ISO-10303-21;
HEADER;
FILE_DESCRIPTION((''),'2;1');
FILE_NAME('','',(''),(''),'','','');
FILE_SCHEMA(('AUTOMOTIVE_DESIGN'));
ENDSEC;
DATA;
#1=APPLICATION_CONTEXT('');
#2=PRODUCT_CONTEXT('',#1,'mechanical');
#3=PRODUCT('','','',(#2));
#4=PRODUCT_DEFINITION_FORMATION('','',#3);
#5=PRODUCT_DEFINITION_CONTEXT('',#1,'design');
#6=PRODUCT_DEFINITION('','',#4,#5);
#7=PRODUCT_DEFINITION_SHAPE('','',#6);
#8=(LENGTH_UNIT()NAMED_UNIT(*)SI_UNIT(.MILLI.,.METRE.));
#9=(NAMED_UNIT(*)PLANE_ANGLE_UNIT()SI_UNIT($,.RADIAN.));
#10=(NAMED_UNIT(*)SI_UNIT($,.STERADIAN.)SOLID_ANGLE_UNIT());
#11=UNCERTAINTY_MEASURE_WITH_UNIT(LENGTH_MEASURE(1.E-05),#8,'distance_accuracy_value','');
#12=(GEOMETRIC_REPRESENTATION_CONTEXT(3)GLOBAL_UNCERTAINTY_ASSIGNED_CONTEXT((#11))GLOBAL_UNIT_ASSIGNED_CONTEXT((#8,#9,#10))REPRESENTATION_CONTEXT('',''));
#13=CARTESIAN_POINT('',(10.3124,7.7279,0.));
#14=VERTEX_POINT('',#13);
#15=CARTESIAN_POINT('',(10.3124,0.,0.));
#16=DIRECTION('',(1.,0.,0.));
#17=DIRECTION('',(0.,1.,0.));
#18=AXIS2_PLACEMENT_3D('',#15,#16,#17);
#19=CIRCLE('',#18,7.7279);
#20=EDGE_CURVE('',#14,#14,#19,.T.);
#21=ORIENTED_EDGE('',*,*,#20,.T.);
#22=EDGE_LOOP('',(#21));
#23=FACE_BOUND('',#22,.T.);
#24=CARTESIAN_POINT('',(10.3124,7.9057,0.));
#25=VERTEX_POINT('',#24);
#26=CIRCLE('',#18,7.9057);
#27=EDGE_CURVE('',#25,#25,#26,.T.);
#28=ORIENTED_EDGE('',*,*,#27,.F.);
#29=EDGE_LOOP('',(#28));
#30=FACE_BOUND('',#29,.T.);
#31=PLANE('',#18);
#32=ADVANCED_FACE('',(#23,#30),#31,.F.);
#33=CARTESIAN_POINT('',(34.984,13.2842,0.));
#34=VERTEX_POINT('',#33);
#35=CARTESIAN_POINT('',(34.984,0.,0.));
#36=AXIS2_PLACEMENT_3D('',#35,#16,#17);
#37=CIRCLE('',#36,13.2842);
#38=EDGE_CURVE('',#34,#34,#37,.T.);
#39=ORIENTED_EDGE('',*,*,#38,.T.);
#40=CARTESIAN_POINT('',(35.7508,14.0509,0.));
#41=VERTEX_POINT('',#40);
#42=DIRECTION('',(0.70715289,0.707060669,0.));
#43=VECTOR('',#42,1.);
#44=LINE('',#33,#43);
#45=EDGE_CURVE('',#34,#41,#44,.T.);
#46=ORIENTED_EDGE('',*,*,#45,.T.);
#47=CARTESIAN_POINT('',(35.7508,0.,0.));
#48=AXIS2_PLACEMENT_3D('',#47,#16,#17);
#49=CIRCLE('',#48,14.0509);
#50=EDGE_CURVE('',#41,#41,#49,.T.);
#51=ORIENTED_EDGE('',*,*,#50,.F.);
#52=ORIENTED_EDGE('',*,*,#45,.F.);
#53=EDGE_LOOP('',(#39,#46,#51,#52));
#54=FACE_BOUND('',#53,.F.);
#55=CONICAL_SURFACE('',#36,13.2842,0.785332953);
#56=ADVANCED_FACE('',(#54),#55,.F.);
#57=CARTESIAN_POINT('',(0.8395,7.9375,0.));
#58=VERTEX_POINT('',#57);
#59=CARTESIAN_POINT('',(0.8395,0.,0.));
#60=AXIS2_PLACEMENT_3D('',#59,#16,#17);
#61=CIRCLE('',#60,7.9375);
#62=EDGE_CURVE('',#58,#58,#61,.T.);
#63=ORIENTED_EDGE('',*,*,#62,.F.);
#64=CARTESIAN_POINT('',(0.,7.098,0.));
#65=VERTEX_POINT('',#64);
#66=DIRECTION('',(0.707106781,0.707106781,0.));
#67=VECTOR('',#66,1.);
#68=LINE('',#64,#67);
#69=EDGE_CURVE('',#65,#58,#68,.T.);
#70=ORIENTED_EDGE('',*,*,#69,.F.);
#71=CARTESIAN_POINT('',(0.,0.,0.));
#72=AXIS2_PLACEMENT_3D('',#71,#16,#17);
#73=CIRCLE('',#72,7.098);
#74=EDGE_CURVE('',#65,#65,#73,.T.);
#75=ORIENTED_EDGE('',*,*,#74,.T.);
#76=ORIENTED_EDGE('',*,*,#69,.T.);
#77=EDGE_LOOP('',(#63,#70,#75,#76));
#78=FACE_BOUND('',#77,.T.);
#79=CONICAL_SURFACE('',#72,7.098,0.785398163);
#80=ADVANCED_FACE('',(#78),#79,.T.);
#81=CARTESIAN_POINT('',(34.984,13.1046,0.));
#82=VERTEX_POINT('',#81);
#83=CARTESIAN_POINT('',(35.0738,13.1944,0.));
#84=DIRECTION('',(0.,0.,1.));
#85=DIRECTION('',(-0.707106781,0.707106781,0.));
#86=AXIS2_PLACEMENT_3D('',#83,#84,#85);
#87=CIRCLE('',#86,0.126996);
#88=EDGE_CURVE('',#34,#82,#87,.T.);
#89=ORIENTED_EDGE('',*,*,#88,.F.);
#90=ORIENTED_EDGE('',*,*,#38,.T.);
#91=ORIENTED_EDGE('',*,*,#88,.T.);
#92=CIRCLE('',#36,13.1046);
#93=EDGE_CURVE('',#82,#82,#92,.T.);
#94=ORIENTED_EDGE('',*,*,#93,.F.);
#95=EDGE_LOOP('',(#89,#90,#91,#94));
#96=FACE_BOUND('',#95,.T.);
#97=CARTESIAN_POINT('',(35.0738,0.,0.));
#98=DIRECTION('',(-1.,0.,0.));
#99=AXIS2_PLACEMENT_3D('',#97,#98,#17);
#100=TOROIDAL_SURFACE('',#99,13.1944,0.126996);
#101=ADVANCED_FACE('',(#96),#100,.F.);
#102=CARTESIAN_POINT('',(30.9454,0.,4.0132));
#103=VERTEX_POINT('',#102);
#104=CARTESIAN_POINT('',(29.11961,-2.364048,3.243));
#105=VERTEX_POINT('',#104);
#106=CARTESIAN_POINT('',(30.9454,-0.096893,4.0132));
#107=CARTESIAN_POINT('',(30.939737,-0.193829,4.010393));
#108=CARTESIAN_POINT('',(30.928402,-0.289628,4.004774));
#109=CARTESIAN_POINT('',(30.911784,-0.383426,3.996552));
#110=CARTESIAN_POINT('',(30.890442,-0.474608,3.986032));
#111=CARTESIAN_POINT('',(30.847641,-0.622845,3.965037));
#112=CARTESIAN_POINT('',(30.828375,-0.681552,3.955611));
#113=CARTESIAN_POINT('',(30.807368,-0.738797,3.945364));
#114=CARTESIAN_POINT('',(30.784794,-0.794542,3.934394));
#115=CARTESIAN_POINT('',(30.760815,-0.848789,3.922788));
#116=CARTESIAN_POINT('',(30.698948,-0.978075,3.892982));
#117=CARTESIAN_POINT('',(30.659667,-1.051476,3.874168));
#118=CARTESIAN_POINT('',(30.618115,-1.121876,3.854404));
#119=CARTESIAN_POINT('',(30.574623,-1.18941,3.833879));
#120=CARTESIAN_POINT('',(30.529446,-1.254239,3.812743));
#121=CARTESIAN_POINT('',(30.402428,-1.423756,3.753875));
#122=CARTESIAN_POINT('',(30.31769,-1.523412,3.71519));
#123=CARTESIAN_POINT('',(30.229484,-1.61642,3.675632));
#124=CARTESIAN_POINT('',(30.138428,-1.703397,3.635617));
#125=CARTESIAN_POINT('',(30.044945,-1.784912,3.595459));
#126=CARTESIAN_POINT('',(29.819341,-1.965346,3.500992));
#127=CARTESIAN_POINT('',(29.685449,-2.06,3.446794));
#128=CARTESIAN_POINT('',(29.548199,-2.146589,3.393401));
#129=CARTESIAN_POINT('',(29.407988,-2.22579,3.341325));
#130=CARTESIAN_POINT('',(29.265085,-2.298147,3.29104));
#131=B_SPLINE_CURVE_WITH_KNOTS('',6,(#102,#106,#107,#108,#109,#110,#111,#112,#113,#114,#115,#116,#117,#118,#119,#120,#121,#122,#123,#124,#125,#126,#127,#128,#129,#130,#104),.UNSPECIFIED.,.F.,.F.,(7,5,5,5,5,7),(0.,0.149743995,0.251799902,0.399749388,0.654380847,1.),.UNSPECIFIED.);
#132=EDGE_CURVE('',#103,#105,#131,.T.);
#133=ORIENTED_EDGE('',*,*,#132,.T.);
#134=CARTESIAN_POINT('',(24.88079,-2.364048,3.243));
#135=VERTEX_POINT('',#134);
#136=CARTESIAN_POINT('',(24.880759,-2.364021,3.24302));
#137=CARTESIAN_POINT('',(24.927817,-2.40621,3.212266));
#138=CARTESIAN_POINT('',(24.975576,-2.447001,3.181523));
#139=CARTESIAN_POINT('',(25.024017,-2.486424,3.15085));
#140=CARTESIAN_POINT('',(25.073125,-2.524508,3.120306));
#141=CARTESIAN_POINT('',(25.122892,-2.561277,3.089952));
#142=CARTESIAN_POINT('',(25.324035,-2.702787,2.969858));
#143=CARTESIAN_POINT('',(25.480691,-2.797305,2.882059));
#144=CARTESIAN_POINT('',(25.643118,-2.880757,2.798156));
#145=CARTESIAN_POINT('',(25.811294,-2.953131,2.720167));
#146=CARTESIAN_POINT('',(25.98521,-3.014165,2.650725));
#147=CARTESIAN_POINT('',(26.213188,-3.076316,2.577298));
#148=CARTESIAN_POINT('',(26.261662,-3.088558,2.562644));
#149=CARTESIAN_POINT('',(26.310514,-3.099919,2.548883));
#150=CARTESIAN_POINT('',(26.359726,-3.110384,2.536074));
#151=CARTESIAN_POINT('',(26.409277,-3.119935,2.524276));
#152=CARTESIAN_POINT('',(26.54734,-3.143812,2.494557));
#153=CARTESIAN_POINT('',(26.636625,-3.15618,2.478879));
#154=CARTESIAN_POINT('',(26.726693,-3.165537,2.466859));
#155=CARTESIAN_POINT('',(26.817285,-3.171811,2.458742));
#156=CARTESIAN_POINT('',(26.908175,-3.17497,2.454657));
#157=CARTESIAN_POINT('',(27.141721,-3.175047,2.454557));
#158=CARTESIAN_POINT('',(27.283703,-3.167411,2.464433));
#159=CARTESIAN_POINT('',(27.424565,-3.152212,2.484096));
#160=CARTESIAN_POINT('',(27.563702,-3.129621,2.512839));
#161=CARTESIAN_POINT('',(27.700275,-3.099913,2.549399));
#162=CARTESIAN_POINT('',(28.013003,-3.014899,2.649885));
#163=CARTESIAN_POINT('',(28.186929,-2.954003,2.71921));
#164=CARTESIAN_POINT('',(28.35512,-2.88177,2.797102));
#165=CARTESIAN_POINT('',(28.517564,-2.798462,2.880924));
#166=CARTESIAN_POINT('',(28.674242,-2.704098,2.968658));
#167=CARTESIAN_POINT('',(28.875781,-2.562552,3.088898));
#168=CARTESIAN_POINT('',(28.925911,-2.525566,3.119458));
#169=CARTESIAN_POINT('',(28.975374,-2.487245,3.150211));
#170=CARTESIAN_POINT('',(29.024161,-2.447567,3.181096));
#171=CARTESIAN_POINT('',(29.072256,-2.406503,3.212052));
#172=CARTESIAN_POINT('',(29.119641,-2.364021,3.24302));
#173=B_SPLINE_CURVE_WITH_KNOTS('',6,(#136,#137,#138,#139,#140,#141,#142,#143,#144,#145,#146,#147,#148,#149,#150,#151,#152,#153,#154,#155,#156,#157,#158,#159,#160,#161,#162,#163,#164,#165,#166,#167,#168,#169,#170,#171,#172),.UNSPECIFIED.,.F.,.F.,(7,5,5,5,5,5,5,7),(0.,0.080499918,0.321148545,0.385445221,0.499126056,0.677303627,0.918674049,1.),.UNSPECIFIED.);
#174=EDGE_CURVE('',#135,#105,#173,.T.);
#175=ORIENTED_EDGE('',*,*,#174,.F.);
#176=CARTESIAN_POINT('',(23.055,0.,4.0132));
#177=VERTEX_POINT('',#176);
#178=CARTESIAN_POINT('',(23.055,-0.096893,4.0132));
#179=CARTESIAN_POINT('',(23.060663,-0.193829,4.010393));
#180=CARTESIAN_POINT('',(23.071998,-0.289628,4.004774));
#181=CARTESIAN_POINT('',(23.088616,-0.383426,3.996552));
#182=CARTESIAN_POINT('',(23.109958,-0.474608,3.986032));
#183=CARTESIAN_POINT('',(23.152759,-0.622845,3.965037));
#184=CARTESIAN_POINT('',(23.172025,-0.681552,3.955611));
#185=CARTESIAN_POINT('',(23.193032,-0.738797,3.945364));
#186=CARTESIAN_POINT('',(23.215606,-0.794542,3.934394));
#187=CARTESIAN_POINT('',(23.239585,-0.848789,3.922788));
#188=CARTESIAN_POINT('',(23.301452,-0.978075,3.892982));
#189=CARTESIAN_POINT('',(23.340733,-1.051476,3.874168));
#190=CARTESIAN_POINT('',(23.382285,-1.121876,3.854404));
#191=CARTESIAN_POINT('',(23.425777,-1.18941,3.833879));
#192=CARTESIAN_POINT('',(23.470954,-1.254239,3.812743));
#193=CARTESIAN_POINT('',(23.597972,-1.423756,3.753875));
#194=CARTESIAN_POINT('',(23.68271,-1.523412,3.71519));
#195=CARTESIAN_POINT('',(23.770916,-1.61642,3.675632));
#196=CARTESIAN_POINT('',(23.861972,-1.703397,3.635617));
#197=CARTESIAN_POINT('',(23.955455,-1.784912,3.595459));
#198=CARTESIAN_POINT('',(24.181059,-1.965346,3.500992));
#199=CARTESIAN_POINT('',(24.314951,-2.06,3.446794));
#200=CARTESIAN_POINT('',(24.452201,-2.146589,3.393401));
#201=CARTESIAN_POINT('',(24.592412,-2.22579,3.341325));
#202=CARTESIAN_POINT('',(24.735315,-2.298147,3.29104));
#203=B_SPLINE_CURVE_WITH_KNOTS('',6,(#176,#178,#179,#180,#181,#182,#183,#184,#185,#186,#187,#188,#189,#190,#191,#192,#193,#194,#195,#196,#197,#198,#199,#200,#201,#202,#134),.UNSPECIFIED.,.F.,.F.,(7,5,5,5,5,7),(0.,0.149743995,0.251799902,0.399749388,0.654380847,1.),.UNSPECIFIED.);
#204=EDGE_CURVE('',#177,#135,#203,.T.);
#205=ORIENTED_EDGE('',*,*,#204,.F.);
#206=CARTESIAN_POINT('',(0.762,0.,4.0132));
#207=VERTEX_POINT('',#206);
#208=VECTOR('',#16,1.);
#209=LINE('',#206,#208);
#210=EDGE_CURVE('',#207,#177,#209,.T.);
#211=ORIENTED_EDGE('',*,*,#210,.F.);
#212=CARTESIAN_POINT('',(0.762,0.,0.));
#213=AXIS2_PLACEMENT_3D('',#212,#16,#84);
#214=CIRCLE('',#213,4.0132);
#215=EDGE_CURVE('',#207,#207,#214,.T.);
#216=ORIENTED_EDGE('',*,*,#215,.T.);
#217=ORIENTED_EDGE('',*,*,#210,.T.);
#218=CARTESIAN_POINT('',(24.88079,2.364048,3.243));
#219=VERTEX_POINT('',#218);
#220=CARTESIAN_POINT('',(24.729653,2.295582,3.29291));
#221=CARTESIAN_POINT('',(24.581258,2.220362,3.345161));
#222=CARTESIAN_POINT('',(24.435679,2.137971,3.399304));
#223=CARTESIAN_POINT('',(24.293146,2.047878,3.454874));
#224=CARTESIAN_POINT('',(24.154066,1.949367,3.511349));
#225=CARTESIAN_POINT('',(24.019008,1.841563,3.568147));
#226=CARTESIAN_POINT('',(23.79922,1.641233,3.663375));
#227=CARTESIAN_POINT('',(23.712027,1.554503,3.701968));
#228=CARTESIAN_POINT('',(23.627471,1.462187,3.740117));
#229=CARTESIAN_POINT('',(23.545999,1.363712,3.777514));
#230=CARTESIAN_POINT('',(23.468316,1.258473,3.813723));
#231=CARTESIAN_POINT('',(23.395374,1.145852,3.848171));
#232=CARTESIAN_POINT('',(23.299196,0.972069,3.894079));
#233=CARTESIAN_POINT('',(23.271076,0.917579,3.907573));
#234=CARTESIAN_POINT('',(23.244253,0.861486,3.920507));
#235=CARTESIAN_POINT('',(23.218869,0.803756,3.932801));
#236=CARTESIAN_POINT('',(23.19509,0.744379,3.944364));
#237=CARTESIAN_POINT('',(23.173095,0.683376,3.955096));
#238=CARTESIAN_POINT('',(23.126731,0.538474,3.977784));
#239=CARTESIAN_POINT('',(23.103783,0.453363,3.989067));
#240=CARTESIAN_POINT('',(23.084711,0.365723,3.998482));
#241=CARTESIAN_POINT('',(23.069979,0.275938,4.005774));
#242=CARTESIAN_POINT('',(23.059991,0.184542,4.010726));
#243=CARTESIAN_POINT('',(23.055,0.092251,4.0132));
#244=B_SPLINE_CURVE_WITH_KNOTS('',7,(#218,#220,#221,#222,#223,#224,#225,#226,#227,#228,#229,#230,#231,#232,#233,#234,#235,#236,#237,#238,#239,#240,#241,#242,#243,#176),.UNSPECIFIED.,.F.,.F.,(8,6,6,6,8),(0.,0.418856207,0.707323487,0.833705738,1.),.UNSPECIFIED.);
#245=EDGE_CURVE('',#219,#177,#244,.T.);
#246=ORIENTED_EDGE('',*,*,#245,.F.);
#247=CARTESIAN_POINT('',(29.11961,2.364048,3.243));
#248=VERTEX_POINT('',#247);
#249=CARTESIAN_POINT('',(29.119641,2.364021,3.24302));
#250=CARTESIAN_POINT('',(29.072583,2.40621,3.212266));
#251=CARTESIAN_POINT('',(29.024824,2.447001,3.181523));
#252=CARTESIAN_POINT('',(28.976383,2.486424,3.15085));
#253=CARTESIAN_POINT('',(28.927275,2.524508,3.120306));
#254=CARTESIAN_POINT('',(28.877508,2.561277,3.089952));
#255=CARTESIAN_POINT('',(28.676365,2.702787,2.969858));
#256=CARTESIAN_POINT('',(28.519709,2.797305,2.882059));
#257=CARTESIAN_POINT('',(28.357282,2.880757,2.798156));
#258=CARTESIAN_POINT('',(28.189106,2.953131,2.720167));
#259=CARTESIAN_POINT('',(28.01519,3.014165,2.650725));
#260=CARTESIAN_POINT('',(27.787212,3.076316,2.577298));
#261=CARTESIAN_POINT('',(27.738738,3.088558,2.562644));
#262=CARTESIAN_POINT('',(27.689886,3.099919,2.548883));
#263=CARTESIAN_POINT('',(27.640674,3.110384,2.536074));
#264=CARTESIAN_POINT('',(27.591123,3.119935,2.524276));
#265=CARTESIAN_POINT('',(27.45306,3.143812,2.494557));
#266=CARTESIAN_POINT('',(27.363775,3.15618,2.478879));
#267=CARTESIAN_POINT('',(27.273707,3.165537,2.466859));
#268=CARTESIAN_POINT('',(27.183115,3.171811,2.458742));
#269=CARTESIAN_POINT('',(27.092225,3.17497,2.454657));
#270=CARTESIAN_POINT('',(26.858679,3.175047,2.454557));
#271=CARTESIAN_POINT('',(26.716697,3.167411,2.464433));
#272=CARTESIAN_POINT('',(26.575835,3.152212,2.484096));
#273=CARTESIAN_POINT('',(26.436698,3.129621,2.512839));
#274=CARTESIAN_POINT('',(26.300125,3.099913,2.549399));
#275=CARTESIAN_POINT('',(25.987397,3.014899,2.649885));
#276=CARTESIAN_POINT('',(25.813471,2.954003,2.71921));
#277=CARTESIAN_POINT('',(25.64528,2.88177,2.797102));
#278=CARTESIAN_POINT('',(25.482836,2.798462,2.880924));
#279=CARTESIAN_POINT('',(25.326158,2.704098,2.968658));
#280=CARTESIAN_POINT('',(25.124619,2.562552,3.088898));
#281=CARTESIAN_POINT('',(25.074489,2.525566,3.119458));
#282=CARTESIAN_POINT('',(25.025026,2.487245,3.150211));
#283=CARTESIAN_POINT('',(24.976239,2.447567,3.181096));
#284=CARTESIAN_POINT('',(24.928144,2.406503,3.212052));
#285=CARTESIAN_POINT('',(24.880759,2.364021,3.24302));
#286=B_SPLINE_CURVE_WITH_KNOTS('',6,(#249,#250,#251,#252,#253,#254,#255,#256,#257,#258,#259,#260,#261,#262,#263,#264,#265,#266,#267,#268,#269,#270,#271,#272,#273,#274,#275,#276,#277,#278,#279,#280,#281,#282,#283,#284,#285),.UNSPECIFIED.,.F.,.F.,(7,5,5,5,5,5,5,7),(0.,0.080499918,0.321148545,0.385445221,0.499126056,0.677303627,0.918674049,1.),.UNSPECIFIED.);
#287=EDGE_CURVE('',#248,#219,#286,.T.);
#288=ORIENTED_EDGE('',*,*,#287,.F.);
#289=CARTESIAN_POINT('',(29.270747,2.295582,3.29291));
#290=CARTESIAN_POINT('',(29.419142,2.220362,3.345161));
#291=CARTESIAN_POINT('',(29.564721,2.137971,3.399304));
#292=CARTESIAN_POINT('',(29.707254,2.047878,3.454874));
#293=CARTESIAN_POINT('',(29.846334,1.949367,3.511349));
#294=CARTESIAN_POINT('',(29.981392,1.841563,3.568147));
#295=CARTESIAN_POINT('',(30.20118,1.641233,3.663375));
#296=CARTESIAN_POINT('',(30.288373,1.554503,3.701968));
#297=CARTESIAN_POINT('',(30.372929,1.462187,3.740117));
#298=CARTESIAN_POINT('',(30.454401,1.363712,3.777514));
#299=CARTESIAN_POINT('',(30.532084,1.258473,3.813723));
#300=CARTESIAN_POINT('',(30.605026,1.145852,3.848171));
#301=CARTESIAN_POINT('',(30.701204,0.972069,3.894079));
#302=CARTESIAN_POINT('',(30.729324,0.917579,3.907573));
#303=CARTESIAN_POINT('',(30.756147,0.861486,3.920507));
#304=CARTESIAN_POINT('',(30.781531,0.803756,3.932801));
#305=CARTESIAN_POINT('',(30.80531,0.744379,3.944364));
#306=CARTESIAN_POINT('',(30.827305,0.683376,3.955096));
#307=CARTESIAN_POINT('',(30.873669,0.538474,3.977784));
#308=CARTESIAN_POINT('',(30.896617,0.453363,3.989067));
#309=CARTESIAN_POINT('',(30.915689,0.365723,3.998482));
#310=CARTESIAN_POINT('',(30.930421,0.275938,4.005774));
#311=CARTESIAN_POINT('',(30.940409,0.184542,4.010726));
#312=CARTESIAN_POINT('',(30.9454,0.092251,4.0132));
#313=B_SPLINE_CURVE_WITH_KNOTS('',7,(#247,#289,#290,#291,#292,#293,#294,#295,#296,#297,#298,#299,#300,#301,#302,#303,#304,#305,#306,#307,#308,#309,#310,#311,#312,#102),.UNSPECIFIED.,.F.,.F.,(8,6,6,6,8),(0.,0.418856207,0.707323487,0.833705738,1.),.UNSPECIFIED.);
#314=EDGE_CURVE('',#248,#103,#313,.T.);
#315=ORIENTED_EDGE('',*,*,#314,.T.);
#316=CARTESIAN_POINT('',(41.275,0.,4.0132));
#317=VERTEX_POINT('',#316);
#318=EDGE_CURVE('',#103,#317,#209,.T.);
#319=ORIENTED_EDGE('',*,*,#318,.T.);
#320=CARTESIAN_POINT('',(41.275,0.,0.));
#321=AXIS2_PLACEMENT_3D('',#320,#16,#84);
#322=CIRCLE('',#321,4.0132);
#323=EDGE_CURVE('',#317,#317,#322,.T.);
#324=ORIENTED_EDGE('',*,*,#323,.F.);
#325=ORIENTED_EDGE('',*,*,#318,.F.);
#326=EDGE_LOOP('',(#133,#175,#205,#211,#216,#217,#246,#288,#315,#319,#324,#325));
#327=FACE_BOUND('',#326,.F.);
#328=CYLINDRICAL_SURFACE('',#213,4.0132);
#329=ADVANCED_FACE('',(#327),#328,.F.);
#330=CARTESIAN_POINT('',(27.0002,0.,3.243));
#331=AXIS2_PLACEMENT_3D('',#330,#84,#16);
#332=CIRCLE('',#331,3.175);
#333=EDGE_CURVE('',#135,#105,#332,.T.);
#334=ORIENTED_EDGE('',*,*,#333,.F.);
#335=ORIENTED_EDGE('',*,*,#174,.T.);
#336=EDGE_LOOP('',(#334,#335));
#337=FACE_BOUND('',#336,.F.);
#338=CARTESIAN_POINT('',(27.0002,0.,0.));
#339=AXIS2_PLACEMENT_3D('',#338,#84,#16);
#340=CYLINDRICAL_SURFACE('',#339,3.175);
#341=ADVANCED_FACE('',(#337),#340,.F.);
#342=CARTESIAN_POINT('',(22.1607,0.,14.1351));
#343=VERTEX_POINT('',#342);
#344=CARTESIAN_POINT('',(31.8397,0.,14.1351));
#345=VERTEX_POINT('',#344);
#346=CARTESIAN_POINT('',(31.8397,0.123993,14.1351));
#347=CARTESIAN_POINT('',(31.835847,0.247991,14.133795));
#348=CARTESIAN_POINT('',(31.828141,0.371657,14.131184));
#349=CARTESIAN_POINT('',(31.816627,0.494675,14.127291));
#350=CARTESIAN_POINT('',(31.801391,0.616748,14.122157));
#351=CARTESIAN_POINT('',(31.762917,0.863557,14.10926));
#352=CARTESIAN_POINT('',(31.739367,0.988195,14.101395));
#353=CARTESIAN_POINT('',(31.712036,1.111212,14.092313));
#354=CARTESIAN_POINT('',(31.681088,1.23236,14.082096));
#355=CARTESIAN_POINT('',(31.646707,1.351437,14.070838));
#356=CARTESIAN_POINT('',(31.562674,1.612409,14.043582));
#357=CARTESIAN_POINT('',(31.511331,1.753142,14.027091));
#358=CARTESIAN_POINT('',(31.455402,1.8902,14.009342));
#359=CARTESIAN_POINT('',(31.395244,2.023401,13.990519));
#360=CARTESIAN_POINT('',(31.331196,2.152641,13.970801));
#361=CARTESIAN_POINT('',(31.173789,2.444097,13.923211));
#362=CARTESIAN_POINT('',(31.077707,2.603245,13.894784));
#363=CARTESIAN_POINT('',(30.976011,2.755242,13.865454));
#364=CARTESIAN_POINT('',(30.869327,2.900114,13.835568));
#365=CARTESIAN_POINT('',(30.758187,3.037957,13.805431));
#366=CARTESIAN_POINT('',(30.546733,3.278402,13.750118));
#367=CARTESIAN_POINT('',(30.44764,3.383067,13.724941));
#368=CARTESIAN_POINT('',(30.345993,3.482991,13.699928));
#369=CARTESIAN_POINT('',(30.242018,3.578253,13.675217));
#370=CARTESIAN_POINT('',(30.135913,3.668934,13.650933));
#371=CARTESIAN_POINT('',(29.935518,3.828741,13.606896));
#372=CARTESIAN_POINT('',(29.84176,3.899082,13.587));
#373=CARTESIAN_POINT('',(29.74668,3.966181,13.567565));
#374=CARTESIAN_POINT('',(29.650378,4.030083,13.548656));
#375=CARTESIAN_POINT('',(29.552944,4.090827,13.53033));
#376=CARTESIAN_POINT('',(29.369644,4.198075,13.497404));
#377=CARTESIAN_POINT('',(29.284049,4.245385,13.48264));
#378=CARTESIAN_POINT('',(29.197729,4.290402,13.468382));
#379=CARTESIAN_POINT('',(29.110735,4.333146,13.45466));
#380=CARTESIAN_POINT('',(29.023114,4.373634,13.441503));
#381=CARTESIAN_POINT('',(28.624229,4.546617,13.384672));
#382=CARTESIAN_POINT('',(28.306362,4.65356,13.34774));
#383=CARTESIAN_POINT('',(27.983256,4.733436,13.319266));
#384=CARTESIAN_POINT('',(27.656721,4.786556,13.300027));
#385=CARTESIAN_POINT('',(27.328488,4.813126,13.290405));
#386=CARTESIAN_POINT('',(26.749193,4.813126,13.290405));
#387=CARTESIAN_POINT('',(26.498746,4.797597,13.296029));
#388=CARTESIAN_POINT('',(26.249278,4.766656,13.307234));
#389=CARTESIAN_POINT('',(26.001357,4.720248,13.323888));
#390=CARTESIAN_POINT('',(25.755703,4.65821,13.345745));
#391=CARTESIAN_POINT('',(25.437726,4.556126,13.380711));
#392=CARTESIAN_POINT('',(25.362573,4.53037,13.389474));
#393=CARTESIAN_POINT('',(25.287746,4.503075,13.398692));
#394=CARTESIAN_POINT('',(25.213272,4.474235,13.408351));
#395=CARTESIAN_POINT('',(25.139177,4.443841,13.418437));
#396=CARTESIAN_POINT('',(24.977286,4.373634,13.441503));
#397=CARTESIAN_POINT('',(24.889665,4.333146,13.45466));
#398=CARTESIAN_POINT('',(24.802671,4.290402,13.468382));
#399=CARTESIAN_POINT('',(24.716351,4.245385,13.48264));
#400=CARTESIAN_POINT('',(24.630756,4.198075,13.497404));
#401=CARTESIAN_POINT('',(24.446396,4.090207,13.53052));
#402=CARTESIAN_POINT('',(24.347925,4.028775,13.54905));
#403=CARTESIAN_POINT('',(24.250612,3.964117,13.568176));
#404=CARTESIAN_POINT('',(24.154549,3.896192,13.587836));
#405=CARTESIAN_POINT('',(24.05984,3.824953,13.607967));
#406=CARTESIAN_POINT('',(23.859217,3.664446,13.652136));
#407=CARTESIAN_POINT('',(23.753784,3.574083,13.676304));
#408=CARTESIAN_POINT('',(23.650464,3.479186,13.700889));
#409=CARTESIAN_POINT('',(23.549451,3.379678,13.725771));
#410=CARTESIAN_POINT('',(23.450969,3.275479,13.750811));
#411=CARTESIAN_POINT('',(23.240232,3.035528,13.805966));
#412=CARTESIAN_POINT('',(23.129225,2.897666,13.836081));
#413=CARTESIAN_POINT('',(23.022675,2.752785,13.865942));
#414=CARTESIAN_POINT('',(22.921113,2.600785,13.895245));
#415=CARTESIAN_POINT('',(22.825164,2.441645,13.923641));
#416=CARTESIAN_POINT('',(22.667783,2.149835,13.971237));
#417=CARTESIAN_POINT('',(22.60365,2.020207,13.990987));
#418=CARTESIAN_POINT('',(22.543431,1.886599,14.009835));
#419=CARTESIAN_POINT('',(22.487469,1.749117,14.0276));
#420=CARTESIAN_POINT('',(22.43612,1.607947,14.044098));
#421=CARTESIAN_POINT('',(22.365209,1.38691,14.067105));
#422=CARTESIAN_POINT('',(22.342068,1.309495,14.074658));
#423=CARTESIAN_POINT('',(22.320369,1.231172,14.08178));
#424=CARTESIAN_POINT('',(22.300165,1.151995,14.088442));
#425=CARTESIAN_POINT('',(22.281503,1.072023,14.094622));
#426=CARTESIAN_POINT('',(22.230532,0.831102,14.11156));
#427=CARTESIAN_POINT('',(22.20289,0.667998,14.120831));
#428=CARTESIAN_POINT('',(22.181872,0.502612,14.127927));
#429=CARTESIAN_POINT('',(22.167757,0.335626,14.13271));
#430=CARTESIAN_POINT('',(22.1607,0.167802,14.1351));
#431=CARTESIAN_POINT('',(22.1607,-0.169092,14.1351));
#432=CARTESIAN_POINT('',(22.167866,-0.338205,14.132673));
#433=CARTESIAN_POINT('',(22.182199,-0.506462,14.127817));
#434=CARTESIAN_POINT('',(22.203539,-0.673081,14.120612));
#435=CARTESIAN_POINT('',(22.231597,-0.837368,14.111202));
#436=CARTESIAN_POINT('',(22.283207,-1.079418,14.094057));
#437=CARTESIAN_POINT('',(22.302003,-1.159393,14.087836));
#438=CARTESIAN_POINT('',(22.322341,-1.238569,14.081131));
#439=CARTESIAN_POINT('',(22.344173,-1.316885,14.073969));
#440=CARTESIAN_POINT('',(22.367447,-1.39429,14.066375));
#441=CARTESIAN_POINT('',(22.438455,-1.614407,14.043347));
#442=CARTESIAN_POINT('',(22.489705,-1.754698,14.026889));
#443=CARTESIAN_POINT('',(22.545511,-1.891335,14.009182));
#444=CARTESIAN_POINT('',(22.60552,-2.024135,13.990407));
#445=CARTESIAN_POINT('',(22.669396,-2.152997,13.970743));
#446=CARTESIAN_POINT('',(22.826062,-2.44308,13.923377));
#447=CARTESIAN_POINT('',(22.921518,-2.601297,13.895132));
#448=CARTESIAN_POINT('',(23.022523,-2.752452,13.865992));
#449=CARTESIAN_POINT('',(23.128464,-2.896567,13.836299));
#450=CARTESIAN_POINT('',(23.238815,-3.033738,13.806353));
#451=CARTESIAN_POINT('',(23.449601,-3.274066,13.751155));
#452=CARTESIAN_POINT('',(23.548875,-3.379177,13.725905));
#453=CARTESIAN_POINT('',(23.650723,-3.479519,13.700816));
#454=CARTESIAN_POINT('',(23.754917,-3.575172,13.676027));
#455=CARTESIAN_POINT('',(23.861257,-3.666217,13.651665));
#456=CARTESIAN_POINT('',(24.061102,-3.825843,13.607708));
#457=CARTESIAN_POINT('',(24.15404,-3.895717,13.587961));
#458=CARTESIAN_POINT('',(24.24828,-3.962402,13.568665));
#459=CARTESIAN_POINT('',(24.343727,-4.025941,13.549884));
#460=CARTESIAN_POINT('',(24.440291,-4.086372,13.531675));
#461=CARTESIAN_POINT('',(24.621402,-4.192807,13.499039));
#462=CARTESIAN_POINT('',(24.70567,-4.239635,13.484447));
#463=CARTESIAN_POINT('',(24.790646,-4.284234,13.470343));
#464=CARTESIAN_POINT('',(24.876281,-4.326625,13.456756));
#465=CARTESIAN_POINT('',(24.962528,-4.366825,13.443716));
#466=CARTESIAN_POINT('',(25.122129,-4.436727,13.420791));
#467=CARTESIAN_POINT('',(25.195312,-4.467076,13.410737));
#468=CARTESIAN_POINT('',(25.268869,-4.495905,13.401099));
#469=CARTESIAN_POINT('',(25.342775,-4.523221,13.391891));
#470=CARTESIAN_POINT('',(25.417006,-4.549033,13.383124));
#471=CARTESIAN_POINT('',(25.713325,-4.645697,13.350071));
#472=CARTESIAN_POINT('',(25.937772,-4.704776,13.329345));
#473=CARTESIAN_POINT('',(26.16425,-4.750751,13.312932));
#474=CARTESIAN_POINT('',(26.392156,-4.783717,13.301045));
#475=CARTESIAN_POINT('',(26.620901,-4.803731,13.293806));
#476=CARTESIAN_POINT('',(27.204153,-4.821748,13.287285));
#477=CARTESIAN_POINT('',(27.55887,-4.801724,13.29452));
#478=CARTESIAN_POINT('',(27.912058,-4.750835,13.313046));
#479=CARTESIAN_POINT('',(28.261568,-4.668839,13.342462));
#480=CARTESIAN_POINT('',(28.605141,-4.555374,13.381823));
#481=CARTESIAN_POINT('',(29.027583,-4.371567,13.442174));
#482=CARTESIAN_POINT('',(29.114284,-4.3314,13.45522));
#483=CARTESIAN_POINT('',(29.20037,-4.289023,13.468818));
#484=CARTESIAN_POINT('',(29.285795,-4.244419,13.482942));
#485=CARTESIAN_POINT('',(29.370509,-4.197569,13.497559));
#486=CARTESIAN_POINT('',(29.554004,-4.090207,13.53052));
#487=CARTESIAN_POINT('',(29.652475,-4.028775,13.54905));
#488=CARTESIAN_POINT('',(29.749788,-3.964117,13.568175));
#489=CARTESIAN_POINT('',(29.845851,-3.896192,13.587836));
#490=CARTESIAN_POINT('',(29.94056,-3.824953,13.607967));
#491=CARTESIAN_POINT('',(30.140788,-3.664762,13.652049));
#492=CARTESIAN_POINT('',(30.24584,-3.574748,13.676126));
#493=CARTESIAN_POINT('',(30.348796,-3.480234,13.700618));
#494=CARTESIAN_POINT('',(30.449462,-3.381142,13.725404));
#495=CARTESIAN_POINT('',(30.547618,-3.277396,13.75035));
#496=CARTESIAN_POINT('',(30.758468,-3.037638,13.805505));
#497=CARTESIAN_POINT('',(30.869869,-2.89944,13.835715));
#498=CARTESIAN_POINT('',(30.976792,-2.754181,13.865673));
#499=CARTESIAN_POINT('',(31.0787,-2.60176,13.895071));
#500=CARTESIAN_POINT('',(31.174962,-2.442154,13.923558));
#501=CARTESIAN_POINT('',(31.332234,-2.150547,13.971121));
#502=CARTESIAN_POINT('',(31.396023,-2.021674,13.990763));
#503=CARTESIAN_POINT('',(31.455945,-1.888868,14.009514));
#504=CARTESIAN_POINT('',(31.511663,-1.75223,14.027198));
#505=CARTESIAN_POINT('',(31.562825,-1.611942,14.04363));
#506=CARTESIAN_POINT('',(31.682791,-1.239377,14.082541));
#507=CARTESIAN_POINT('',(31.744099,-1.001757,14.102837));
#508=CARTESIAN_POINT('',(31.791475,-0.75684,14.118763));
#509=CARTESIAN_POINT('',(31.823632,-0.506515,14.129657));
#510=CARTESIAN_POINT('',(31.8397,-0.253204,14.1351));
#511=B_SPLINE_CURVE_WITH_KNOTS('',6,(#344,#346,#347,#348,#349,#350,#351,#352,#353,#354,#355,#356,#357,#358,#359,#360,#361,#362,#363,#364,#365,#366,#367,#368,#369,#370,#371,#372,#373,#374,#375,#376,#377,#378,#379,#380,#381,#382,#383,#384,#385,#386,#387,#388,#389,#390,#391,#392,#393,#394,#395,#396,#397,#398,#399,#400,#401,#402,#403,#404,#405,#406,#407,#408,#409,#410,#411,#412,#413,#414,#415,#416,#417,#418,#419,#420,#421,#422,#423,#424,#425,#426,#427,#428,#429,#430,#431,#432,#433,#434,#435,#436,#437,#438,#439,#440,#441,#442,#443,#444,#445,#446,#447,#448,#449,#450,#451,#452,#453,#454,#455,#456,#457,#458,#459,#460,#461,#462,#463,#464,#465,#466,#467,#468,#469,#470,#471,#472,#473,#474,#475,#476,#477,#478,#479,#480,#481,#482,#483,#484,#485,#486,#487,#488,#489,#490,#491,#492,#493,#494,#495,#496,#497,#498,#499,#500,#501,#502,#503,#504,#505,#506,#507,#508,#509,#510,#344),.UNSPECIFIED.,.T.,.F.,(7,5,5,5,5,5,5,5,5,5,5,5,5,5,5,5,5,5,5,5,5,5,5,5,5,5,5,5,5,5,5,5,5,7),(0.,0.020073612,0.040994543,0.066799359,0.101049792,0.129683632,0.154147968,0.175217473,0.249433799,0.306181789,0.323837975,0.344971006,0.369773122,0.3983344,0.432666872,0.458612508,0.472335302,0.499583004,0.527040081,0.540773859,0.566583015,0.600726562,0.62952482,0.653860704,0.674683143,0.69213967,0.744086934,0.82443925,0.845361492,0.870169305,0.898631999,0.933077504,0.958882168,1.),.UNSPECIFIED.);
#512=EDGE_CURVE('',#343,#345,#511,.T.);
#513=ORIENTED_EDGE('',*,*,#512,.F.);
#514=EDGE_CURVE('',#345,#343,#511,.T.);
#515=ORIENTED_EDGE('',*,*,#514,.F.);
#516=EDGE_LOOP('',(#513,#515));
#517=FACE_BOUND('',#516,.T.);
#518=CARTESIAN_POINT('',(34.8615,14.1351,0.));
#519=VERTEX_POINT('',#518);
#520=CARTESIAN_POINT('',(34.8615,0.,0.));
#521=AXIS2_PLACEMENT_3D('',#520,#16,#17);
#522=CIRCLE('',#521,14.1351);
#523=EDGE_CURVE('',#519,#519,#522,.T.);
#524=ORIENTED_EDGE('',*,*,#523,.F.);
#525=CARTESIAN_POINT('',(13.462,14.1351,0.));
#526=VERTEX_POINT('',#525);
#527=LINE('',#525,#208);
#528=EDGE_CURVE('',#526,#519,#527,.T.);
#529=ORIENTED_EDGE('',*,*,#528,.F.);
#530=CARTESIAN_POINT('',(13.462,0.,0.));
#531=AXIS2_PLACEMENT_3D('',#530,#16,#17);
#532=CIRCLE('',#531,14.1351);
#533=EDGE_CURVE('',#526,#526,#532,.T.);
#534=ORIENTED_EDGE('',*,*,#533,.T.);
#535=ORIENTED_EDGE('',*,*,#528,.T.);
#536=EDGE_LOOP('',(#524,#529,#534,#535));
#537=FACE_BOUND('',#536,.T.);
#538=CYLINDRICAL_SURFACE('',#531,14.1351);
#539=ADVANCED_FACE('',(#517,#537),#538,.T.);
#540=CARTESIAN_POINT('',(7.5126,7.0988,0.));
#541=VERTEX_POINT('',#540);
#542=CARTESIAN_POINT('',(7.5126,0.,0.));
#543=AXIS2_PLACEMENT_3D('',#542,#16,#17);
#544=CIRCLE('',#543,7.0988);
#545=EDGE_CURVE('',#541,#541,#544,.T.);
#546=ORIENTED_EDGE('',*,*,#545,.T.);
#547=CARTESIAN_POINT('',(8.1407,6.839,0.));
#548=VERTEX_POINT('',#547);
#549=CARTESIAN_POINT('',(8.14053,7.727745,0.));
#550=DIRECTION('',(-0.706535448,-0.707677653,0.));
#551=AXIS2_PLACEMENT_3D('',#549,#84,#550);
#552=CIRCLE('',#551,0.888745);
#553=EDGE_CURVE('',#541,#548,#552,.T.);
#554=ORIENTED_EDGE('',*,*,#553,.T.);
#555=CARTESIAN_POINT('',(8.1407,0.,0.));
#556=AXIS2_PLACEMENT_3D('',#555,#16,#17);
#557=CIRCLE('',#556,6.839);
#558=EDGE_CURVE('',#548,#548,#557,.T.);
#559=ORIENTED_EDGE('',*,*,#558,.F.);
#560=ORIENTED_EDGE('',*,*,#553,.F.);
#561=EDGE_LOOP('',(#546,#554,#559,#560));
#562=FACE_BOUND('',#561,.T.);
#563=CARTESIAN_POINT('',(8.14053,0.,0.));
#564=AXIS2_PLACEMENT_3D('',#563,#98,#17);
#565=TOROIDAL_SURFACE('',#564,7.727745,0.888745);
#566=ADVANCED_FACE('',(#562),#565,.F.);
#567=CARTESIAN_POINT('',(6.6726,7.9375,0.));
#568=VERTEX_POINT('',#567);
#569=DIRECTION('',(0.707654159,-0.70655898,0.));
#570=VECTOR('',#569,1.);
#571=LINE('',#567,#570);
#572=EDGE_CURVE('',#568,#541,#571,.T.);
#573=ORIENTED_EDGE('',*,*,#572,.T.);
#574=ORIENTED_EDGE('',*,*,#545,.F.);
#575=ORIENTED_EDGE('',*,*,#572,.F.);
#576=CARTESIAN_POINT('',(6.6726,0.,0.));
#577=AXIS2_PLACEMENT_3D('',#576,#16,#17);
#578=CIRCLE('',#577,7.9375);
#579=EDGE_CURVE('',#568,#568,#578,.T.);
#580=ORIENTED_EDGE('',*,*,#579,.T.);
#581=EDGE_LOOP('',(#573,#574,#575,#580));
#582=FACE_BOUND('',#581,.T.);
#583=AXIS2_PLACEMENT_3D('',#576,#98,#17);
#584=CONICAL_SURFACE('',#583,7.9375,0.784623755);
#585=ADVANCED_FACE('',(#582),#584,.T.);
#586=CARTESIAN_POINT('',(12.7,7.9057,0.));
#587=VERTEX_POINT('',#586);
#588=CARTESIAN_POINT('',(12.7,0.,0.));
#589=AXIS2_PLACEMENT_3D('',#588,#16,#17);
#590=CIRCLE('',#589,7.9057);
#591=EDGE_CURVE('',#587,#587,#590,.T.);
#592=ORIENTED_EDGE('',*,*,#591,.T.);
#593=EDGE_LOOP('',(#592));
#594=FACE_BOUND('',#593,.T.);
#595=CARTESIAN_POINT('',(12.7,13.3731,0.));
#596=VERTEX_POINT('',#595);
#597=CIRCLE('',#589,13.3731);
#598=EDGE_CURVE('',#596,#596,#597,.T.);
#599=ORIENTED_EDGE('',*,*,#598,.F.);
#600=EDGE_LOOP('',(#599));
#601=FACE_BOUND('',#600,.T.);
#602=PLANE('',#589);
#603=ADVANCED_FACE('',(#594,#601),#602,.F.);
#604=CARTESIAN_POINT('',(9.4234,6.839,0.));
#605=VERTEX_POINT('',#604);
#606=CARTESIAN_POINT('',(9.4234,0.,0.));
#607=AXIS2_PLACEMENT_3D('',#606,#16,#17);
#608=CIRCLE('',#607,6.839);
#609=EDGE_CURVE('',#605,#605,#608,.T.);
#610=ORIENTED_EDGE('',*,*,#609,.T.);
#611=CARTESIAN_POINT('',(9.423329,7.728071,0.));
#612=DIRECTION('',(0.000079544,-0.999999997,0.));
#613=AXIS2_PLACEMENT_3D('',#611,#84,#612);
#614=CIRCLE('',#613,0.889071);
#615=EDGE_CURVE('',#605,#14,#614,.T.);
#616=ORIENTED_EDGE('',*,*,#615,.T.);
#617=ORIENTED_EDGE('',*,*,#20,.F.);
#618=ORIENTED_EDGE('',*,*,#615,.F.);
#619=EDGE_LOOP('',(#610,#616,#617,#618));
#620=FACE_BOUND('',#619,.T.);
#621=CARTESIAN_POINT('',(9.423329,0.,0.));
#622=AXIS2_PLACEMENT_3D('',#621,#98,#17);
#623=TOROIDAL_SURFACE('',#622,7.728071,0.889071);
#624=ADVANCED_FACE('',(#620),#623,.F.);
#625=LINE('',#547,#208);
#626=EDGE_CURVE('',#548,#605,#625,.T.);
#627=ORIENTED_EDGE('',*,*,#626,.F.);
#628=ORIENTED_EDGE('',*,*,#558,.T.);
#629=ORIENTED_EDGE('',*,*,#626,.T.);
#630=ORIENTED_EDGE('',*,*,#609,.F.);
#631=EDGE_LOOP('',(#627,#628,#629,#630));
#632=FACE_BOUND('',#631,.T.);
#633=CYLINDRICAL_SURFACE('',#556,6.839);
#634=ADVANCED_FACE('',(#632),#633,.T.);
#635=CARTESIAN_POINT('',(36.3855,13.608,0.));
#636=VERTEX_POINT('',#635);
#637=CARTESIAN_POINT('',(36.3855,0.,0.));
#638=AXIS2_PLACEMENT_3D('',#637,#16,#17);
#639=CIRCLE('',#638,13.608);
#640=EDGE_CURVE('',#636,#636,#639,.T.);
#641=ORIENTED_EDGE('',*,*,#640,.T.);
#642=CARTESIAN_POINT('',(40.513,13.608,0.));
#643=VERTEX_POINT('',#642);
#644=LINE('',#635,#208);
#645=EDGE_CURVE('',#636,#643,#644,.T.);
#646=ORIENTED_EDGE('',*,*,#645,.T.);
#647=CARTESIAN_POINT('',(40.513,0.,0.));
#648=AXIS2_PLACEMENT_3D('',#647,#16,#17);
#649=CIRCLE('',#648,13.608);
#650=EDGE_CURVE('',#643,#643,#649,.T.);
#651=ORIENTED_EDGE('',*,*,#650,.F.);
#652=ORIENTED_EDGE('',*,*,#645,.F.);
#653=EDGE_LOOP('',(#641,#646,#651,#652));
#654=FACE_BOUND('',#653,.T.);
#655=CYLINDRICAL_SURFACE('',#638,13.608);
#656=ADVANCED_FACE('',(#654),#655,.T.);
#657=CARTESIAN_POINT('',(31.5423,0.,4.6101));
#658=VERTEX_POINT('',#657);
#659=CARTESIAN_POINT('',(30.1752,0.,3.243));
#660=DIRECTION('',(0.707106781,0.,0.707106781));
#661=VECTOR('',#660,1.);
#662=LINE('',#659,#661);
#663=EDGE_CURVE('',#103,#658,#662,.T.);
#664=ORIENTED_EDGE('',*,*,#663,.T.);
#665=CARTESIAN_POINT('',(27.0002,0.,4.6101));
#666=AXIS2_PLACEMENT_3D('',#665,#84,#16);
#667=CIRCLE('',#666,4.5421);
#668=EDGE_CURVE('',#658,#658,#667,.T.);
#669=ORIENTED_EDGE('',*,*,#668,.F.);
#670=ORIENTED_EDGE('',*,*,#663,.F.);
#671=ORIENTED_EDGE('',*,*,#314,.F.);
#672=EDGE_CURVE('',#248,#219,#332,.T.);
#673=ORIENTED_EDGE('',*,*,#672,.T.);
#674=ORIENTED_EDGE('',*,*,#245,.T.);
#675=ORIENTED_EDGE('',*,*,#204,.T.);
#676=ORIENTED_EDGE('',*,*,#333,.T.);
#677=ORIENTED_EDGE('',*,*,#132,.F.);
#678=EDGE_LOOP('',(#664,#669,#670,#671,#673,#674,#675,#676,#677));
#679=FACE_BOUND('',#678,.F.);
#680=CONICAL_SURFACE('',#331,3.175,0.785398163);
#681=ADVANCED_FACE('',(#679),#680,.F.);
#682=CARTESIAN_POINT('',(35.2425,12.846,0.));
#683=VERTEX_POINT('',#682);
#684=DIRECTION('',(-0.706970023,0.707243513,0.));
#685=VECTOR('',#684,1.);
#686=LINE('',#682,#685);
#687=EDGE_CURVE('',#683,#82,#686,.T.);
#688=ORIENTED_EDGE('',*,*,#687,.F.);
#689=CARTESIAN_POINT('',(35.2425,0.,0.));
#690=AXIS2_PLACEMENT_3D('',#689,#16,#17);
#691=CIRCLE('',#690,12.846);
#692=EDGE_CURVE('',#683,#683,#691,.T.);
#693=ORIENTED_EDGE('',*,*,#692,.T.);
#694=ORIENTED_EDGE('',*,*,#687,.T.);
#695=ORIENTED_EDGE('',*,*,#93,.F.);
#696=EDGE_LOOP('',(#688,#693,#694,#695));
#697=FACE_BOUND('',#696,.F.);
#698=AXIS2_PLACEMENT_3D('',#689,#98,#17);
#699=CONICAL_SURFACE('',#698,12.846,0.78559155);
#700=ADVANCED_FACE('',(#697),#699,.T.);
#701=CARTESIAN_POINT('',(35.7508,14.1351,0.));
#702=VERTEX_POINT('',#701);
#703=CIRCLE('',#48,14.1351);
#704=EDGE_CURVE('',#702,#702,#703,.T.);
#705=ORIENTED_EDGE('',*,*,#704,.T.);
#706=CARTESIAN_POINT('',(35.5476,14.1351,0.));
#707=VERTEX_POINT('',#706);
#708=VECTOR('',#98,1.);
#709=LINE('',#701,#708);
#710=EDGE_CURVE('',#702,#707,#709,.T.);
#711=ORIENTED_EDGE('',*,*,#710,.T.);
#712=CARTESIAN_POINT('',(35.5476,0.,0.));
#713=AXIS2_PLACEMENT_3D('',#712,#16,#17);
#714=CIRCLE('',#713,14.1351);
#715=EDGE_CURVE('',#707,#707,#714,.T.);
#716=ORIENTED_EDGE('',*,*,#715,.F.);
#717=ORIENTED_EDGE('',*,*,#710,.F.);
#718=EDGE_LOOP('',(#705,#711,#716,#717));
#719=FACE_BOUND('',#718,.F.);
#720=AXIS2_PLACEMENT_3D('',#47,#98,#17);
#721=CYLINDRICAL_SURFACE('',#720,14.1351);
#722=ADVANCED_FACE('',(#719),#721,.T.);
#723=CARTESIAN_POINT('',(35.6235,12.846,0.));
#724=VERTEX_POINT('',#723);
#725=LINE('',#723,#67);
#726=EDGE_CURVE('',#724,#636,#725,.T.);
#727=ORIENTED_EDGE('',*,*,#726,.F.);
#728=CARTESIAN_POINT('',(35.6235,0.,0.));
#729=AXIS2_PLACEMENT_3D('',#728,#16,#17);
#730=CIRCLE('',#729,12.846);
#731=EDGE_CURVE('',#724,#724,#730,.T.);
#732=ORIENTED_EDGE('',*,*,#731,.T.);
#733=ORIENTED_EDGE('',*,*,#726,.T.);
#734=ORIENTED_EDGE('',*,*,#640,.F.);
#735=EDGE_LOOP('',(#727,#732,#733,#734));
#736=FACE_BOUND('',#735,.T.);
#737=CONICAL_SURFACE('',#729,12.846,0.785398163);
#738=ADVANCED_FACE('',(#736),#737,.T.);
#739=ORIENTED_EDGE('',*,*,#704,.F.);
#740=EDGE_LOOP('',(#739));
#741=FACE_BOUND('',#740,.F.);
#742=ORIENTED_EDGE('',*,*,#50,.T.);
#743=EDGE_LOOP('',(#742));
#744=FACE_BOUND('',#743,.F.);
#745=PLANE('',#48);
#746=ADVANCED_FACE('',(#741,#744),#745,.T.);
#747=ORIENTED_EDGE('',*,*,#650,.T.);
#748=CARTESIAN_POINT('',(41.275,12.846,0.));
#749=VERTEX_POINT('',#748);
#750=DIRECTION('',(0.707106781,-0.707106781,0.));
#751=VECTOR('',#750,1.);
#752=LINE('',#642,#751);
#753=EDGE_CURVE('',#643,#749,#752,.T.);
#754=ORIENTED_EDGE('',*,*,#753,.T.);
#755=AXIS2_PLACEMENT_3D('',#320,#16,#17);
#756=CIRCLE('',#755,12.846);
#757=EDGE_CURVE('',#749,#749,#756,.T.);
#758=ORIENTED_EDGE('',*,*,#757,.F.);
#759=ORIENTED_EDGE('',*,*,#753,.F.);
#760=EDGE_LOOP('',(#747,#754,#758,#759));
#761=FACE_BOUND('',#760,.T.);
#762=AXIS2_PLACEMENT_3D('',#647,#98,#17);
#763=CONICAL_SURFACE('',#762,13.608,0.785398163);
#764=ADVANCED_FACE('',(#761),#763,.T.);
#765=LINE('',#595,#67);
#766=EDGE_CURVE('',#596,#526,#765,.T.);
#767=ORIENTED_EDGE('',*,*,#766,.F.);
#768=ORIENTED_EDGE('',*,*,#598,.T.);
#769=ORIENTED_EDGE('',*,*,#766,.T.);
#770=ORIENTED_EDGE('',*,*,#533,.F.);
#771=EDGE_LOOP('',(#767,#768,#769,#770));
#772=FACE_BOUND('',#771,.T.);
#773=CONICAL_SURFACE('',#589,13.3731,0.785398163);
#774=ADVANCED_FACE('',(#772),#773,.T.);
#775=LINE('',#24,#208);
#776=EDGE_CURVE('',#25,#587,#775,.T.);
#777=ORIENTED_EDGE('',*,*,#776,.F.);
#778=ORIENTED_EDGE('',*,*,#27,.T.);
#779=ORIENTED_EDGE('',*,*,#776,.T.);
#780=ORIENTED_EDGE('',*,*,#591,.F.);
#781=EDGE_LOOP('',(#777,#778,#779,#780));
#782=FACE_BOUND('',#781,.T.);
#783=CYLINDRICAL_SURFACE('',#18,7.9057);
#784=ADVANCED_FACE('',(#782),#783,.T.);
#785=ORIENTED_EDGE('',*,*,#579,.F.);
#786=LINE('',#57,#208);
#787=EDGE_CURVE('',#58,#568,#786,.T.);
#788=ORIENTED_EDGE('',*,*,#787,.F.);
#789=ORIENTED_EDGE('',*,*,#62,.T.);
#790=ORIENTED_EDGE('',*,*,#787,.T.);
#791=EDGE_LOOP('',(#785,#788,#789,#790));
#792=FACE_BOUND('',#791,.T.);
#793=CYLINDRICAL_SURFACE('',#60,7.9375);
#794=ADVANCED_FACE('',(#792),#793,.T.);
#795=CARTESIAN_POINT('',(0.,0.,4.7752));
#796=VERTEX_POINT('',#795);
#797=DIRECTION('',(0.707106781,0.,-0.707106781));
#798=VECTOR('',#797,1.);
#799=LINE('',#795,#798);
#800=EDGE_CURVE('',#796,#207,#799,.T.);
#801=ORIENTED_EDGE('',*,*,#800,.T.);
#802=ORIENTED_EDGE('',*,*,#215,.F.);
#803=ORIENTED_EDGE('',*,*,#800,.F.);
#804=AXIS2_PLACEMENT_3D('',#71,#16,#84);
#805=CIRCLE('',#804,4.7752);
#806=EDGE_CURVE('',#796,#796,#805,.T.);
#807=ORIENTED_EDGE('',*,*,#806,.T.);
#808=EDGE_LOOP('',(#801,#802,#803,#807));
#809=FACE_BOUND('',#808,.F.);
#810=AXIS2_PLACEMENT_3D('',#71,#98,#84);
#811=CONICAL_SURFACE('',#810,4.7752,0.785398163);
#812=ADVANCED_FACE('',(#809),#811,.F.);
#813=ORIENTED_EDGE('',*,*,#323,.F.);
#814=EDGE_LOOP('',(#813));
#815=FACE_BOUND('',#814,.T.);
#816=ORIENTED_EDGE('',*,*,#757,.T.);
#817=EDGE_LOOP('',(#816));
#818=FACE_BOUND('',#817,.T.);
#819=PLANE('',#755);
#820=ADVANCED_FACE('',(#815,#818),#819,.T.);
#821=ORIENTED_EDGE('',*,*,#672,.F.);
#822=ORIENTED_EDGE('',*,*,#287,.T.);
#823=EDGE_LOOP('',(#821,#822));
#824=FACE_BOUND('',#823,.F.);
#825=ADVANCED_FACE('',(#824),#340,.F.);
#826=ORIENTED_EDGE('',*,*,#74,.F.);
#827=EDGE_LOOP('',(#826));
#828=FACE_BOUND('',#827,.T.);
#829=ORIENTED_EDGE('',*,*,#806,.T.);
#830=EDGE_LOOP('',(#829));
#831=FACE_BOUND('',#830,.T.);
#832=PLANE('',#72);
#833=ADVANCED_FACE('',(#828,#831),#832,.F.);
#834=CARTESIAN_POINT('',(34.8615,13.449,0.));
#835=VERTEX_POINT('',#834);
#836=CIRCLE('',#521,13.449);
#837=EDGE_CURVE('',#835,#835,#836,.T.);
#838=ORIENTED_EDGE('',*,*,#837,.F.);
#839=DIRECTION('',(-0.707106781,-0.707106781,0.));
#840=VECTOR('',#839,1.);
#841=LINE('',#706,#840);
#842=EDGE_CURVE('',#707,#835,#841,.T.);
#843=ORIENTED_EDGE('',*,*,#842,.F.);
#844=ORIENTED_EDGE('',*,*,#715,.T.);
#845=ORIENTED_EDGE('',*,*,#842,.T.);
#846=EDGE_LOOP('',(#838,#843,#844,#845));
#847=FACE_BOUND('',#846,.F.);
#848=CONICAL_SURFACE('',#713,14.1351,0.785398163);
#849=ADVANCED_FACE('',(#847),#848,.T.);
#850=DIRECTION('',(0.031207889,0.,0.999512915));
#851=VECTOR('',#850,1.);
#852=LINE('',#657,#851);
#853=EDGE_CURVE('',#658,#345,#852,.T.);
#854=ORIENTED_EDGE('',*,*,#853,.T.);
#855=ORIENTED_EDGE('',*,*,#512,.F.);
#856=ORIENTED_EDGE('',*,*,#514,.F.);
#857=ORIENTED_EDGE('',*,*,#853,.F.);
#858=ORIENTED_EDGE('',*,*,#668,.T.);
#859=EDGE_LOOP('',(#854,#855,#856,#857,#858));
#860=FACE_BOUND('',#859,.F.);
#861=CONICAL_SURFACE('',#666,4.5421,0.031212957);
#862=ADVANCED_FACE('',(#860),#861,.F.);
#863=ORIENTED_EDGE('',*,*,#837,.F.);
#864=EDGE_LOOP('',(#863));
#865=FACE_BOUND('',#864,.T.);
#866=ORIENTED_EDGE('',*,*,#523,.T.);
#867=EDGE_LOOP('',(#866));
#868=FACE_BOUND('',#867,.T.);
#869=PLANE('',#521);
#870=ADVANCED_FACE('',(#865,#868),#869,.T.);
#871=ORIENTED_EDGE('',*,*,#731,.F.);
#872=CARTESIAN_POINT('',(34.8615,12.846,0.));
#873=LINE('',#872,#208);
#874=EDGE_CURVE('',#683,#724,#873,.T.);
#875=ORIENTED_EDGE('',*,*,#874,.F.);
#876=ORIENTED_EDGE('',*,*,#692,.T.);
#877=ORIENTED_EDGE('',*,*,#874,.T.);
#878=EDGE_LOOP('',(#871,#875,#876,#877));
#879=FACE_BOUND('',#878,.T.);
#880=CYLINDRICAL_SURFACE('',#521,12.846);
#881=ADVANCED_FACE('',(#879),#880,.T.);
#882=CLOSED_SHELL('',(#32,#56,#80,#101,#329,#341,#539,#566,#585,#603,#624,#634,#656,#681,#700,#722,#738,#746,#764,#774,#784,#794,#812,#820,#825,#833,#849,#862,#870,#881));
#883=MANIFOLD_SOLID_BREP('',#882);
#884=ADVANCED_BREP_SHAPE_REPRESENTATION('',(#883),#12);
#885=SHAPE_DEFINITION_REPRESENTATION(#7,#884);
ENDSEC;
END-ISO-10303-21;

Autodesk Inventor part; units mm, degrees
sketch "Sketch_2" plane through (0, 0, 0) normal (0, 0, 1) x (1, 0, 0)
  line L0 (12.7, 0) -> (0, 0)
  line L1 (0, 0) -> (0, 7.098)
  line L2 (0, 7.098) -> (0.8395, 7.9375)
  line L3 (0.8395, 7.9375) -> (6.6726, 7.9375)
  line L4 (6.6726, 7.9375) -> (7.5126, 7.0988)
  arc A0 (7.5126, 7.0988) -> (8.1407, 6.839) centre (8.1407, 7.728) ccw
  line L5 (8.1407, 6.839) -> (9.4234, 6.839)
  arc A1 (9.4234, 6.839) -> (10.3124, 7.7279) centre (9.4234, 7.7279) ccw
  line L6 (10.3124, 7.7279) -> (10.3124, 7.9057)
  line L7 (10.3124, 7.9057) -> (12.7, 7.9057)
  line L8 (12.7, 7.9057) -> (12.7, 0)
  line L9 (12.7, 0) -> (0, 0)
revolve "Revolution1" add sketch "Sketch_2" angle 360 about axis through (12.7, 0, 0) along (1, 0, 0)
thread "Thread1" size "5/8-18 UNF" class "2A" standard "ANSI Unified Screw Threads" full length
sketch "Sketch_3" plane through (0, 0, 0) normal (0, 0, 1) x (1, 0, 0)
  line L0 (41.275, 0) -> (12.7, 0)
  line L1 (12.7, 0) -> (12.7, 13.3731)
  line L2 (12.7, 13.3731) -> (13.462, 14.1351)
  line L3 (13.462, 14.1351) -> (34.8615, 14.1351)
  line L4 (34.8615, 14.1351) -> (34.8615, 12.846)
  line L5 (34.8615, 12.846) -> (35.6235, 12.846)
  line L6 (35.6235, 12.846) -> (36.3855, 13.608)
  line L7 (36.3855, 13.608) -> (40.513, 13.608)
  line L8 (40.513, 13.608) -> (41.275, 12.846)
  line L9 (41.275, 12.846) -> (41.275, 0)
  line L10 (41.275, 0) -> (12.7, 0)
revolve "Revolution2" add sketch "Sketch_3" angle 360 about axis through (41.275, 0, 0) along (1, 0, 0)
sketch "Sketch3" plane through (0, 0, 0) normal (-1, 0, 0) x (0, 0, 1)
  point P0 (0, 0)
hole "Hole1" at (0, 0, 0) direction (1, 0, 0) diameter 8.0264 depth 41.275 countersink diameter 9.5504 countersink angle 90
sketch "Sketch_40" plane through (0, 0, 0) normal (0, 1, 0) x (-1, 0, 0)
  line L0 (-27.0002, 14.1351) -> (-27.0002, 0)
  line L1 (-27.0002, 0) -> (-30.1752, 0)
  line L2 (-30.1752, 0) -> (-30.1752, 3.243)
  line L3 (-30.1752, 3.243) -> (-31.5423, 4.6101)
  line L4 (-31.5423, 4.6101) -> (-31.8397, 14.1351)
  line L5 (-31.8397, 14.1351) -> (-27.0002, 14.1351)
  line L6 (-27.0002, 14.1351) -> (-27.0002, 0)
revolve "Revolution3" cut sketch "Sketch_40" angle 360 about axis through (27.0002, 0, 14.1351) along (0, 0, 1)
thread "Thread2" size "1/8" designation "1/8 - 27 NPT" standard "NPT" length 5.7178
sketch "Sketch_47" plane through (0, 0, 0) normal (0, 0, 1) x (1, 0, 0)
  line L0 (35.6235, 0) -> (34.8615, 0)
  line L1 (34.8615, 13.449) -> (34.8615, 12.5921)
  line L2 (34.8615, 12.5921) -> (35.6235, 12.5921)
  line L3 (35.6235, 12.5921) -> (35.6235, 12.846)
  line L4 (35.6235, 12.846) -> (35.2425, 12.846)
  line L5 (35.2425, 12.846) -> (34.984, 13.1046)
  arc A0 (34.984, 13.2842) -> (34.984, 13.1046) centre (35.0738, 13.1944) ccw
  line L6 (34.984, 13.2842) -> (35.7508, 14.0509)
  line L7 (35.7508, 14.0509) -> (35.7508, 14.1351)
  line L8 (35.7508, 14.1351) -> (35.5476, 14.1351)
  line L9 (35.5476, 14.1351) -> (34.8615, 13.449)
revolve "Revolution4" add sketch "Sketch_47" angle 360 about axis through (35.6235, 0, 0) along (1, 0, 0)
ref_plane "dp1_XY" through (12.7, 7.9057, 0) normal (0, 0, 1) x (1, 0, 0)
ref_plane "dp1_YZ" through (12.7, 7.9057, 0) normal (1, 0, 0) x (0, 1, 0)
ref_plane "dp1_ZX" through (12.7, 7.9057, 0) normal (0, 1, 0) x (0, 0, 1)
ref_plane "dp2_XY" through (12.7, -7.9057, 0) normal (0, 0, 1) x (1, 0, 0)
ref_plane "dp2_YZ" through (12.7, -7.9057, 0) normal (1, 0, 0) x (0, 1, 0)
ref_plane "dp2_ZX" through (12.7, -7.9057, 0) normal (0, 1, 0) x (0, 0, 1)
ref_plane "hh_XY" through (0, 7.9375, 0) normal (0, 0, 1) x (1, 0, 0)
ref_plane "hh_YZ" through (0, 7.9375, 0) normal (1, 0, 0) x (0, 1, 0)
ref_plane "hh_ZX" through (0, 7.9375, 0) normal (0, 1, 0) x (0, 0, 1)
ref_plane "port_XY" through (27.0002, 0, 0) normal (0, 0, 1) x (1, 0, 0)
ref_plane "port_YZ" through (27.0002, 0, 0) normal (1, 0, 0) x (0, 1, 0)
ref_plane "port_ZX" through (27.0002, 0, 0) normal (0, 1, 0) x (0, 0, 1)
ref_plane "rod_guide_XY" through (0, 0, 0) normal (1, 0, 0) x (0, 0, -1)
ref_plane "rod_guide_YZ" through (0, 0, 0) normal (0, 0, -1) x (0, 1, 0)
ref_plane "rod_guide_ZX" through (0, 0, 0) normal (0, 1, 0) x (1, 0, 0)
ref_plane "s1_XY" through (10.3124, 0, 0) normal (0, 0, 1) x (1, 0, 0)
ref_plane "s1_YZ" through (10.3124, 0, 0) normal (1, 0, 0) x (0, 1, 0)
ref_plane "s1_ZX" through (10.3124, 0, 0) normal (0, 1, 0) x (0, 0, 1)
ref_plane "s2_XY" through (12.7, 0, 0) normal (0, 0, 1) x (1, 0, 0)
ref_plane "s2_YZ" through (12.7, 0, 0) normal (1, 0, 0) x (0, 1, 0)
ref_plane "s2_ZX" through (12.7, 0, 0) normal (0, 1, 0) x (0, 0, 1)
ref_plane "t1_XY" through (12.7, 0, 0) normal (1, 0, 0) x (0, 0, -1)
ref_plane "t1_YZ" through (12.7, 0, 0) normal (0, 0, -1) x (0, 1, 0)
ref_plane "t1_ZX" through (12.7, 0, 0) normal (0, 1, 0) x (1, 0, 0)
ref_plane "t111_XY" through (12.7, 0, 0) normal (1, 0, 0) x (0, 0, -1)
ref_plane "t111_YZ" through (12.7, 0, 0) normal (0, 0, -1) x (0, 1, 0)
ref_plane "t111_ZX" through (12.7, 0, 0) normal (0, 1, 0) x (1, 0, 0)
ref_plane "to_foot_bracket_XY" through (12.7, 0, 0) normal (1, 0, 0) x (0, 0, -1)
ref_plane "to_foot_bracket_YZ" through (12.7, 0, 0) normal (0, 0, -1) x (0, 1, 0)
ref_plane "to_foot_bracket_ZX" through (12.7, 0, 0) normal (0, 1, 0) x (1, 0, 0)
ref_plane "to_nut_XY" through (10.3124, 0, 0) normal (1, 0, 0) x (0, 0, -1)
ref_plane "to_nut_YZ" through (10.3124, 0, 0) normal (0, 0, -1) x (0, 1, 0)
ref_plane "to_nut_ZX" through (10.3124, 0, 0) normal (0, 1, 0) x (1, 0, 0)
ref_plane "to_rod_XY" through (0, 0, 0) normal (1, 0, 0) x (0, 0, -1)
ref_plane "to_rod_YZ" through (0, 0, 0) normal (0, 0, -1) x (0, 1, 0)
ref_plane "to_rod_ZX" through (0, 0, 0) normal (0, 1, 0) x (1, 0, 0)
ref_plane "to_screw_XY" through (27.0002, 10.2743, -7.0485) normal (0, 1, 0) x (1, 0, 0)
ref_plane "to_screw_YZ" through (27.0002, 10.2743, -7.0485) normal (1, 0, 0) x (0, 0, -1)
ref_plane "to_screw_ZX" through (27.0002, 10.2743, -7.0485) normal (0, 0, -1) x (0, 1, 0)
ref_plane "to_trunnion_brackets_XY" through (18.2118, 0, 0) normal (0, 1, 0) x (1, 0, 0)
ref_plane "to_trunnion_brackets_YZ" through (18.2118, 0, 0) normal (1, 0, 0) x (0, 0, -1)
ref_plane "to_trunnion_brackets_ZX" through (18.2118, 0, 0) normal (0, 0, -1) x (0, 1, 0)
ref_plane "to_trunnion_brackets1_XY" through (18.2118, 15.875, 0) normal (0, 1, 0) x (1, 0, 0)
ref_plane "to_trunnion_brackets1_YZ" through (18.2118, 15.875, 0) normal (1, 0, 0) x (0, 0, -1)
ref_plane "to_trunnion_brackets1_ZX" through (18.2118, 15.875, 0) normal (0, 0, -1) x (0, 1, 0)
ref_plane "to_trunnion_brackets2_XY" through (18.2118, -15.875, 0) normal (0, 1, 0) x (1, 0, 0)
ref_plane "to_trunnion_brackets2_YZ" through (18.2118, -15.875, 0) normal (1, 0, 0) x (0, 0, -1)
ref_plane "to_trunnion_brackets2_ZX" through (18.2118, -15.875, 0) normal (0, 0, -1) x (0, 1, 0)
ref_plane "to_tube_XY" through (35.6235, 0, 0) normal (1, 0, 0) x (0, 0, -1)
ref_plane "to_tube_YZ" through (35.6235, 0, 0) normal (0, 0, -1) x (0, 1, 0)
ref_plane "to_tube_ZX" through (35.6235, 0, 0) normal (0, 1, 0) x (1, 0, 0)
properties part number "09R000-0_rod_guide"
